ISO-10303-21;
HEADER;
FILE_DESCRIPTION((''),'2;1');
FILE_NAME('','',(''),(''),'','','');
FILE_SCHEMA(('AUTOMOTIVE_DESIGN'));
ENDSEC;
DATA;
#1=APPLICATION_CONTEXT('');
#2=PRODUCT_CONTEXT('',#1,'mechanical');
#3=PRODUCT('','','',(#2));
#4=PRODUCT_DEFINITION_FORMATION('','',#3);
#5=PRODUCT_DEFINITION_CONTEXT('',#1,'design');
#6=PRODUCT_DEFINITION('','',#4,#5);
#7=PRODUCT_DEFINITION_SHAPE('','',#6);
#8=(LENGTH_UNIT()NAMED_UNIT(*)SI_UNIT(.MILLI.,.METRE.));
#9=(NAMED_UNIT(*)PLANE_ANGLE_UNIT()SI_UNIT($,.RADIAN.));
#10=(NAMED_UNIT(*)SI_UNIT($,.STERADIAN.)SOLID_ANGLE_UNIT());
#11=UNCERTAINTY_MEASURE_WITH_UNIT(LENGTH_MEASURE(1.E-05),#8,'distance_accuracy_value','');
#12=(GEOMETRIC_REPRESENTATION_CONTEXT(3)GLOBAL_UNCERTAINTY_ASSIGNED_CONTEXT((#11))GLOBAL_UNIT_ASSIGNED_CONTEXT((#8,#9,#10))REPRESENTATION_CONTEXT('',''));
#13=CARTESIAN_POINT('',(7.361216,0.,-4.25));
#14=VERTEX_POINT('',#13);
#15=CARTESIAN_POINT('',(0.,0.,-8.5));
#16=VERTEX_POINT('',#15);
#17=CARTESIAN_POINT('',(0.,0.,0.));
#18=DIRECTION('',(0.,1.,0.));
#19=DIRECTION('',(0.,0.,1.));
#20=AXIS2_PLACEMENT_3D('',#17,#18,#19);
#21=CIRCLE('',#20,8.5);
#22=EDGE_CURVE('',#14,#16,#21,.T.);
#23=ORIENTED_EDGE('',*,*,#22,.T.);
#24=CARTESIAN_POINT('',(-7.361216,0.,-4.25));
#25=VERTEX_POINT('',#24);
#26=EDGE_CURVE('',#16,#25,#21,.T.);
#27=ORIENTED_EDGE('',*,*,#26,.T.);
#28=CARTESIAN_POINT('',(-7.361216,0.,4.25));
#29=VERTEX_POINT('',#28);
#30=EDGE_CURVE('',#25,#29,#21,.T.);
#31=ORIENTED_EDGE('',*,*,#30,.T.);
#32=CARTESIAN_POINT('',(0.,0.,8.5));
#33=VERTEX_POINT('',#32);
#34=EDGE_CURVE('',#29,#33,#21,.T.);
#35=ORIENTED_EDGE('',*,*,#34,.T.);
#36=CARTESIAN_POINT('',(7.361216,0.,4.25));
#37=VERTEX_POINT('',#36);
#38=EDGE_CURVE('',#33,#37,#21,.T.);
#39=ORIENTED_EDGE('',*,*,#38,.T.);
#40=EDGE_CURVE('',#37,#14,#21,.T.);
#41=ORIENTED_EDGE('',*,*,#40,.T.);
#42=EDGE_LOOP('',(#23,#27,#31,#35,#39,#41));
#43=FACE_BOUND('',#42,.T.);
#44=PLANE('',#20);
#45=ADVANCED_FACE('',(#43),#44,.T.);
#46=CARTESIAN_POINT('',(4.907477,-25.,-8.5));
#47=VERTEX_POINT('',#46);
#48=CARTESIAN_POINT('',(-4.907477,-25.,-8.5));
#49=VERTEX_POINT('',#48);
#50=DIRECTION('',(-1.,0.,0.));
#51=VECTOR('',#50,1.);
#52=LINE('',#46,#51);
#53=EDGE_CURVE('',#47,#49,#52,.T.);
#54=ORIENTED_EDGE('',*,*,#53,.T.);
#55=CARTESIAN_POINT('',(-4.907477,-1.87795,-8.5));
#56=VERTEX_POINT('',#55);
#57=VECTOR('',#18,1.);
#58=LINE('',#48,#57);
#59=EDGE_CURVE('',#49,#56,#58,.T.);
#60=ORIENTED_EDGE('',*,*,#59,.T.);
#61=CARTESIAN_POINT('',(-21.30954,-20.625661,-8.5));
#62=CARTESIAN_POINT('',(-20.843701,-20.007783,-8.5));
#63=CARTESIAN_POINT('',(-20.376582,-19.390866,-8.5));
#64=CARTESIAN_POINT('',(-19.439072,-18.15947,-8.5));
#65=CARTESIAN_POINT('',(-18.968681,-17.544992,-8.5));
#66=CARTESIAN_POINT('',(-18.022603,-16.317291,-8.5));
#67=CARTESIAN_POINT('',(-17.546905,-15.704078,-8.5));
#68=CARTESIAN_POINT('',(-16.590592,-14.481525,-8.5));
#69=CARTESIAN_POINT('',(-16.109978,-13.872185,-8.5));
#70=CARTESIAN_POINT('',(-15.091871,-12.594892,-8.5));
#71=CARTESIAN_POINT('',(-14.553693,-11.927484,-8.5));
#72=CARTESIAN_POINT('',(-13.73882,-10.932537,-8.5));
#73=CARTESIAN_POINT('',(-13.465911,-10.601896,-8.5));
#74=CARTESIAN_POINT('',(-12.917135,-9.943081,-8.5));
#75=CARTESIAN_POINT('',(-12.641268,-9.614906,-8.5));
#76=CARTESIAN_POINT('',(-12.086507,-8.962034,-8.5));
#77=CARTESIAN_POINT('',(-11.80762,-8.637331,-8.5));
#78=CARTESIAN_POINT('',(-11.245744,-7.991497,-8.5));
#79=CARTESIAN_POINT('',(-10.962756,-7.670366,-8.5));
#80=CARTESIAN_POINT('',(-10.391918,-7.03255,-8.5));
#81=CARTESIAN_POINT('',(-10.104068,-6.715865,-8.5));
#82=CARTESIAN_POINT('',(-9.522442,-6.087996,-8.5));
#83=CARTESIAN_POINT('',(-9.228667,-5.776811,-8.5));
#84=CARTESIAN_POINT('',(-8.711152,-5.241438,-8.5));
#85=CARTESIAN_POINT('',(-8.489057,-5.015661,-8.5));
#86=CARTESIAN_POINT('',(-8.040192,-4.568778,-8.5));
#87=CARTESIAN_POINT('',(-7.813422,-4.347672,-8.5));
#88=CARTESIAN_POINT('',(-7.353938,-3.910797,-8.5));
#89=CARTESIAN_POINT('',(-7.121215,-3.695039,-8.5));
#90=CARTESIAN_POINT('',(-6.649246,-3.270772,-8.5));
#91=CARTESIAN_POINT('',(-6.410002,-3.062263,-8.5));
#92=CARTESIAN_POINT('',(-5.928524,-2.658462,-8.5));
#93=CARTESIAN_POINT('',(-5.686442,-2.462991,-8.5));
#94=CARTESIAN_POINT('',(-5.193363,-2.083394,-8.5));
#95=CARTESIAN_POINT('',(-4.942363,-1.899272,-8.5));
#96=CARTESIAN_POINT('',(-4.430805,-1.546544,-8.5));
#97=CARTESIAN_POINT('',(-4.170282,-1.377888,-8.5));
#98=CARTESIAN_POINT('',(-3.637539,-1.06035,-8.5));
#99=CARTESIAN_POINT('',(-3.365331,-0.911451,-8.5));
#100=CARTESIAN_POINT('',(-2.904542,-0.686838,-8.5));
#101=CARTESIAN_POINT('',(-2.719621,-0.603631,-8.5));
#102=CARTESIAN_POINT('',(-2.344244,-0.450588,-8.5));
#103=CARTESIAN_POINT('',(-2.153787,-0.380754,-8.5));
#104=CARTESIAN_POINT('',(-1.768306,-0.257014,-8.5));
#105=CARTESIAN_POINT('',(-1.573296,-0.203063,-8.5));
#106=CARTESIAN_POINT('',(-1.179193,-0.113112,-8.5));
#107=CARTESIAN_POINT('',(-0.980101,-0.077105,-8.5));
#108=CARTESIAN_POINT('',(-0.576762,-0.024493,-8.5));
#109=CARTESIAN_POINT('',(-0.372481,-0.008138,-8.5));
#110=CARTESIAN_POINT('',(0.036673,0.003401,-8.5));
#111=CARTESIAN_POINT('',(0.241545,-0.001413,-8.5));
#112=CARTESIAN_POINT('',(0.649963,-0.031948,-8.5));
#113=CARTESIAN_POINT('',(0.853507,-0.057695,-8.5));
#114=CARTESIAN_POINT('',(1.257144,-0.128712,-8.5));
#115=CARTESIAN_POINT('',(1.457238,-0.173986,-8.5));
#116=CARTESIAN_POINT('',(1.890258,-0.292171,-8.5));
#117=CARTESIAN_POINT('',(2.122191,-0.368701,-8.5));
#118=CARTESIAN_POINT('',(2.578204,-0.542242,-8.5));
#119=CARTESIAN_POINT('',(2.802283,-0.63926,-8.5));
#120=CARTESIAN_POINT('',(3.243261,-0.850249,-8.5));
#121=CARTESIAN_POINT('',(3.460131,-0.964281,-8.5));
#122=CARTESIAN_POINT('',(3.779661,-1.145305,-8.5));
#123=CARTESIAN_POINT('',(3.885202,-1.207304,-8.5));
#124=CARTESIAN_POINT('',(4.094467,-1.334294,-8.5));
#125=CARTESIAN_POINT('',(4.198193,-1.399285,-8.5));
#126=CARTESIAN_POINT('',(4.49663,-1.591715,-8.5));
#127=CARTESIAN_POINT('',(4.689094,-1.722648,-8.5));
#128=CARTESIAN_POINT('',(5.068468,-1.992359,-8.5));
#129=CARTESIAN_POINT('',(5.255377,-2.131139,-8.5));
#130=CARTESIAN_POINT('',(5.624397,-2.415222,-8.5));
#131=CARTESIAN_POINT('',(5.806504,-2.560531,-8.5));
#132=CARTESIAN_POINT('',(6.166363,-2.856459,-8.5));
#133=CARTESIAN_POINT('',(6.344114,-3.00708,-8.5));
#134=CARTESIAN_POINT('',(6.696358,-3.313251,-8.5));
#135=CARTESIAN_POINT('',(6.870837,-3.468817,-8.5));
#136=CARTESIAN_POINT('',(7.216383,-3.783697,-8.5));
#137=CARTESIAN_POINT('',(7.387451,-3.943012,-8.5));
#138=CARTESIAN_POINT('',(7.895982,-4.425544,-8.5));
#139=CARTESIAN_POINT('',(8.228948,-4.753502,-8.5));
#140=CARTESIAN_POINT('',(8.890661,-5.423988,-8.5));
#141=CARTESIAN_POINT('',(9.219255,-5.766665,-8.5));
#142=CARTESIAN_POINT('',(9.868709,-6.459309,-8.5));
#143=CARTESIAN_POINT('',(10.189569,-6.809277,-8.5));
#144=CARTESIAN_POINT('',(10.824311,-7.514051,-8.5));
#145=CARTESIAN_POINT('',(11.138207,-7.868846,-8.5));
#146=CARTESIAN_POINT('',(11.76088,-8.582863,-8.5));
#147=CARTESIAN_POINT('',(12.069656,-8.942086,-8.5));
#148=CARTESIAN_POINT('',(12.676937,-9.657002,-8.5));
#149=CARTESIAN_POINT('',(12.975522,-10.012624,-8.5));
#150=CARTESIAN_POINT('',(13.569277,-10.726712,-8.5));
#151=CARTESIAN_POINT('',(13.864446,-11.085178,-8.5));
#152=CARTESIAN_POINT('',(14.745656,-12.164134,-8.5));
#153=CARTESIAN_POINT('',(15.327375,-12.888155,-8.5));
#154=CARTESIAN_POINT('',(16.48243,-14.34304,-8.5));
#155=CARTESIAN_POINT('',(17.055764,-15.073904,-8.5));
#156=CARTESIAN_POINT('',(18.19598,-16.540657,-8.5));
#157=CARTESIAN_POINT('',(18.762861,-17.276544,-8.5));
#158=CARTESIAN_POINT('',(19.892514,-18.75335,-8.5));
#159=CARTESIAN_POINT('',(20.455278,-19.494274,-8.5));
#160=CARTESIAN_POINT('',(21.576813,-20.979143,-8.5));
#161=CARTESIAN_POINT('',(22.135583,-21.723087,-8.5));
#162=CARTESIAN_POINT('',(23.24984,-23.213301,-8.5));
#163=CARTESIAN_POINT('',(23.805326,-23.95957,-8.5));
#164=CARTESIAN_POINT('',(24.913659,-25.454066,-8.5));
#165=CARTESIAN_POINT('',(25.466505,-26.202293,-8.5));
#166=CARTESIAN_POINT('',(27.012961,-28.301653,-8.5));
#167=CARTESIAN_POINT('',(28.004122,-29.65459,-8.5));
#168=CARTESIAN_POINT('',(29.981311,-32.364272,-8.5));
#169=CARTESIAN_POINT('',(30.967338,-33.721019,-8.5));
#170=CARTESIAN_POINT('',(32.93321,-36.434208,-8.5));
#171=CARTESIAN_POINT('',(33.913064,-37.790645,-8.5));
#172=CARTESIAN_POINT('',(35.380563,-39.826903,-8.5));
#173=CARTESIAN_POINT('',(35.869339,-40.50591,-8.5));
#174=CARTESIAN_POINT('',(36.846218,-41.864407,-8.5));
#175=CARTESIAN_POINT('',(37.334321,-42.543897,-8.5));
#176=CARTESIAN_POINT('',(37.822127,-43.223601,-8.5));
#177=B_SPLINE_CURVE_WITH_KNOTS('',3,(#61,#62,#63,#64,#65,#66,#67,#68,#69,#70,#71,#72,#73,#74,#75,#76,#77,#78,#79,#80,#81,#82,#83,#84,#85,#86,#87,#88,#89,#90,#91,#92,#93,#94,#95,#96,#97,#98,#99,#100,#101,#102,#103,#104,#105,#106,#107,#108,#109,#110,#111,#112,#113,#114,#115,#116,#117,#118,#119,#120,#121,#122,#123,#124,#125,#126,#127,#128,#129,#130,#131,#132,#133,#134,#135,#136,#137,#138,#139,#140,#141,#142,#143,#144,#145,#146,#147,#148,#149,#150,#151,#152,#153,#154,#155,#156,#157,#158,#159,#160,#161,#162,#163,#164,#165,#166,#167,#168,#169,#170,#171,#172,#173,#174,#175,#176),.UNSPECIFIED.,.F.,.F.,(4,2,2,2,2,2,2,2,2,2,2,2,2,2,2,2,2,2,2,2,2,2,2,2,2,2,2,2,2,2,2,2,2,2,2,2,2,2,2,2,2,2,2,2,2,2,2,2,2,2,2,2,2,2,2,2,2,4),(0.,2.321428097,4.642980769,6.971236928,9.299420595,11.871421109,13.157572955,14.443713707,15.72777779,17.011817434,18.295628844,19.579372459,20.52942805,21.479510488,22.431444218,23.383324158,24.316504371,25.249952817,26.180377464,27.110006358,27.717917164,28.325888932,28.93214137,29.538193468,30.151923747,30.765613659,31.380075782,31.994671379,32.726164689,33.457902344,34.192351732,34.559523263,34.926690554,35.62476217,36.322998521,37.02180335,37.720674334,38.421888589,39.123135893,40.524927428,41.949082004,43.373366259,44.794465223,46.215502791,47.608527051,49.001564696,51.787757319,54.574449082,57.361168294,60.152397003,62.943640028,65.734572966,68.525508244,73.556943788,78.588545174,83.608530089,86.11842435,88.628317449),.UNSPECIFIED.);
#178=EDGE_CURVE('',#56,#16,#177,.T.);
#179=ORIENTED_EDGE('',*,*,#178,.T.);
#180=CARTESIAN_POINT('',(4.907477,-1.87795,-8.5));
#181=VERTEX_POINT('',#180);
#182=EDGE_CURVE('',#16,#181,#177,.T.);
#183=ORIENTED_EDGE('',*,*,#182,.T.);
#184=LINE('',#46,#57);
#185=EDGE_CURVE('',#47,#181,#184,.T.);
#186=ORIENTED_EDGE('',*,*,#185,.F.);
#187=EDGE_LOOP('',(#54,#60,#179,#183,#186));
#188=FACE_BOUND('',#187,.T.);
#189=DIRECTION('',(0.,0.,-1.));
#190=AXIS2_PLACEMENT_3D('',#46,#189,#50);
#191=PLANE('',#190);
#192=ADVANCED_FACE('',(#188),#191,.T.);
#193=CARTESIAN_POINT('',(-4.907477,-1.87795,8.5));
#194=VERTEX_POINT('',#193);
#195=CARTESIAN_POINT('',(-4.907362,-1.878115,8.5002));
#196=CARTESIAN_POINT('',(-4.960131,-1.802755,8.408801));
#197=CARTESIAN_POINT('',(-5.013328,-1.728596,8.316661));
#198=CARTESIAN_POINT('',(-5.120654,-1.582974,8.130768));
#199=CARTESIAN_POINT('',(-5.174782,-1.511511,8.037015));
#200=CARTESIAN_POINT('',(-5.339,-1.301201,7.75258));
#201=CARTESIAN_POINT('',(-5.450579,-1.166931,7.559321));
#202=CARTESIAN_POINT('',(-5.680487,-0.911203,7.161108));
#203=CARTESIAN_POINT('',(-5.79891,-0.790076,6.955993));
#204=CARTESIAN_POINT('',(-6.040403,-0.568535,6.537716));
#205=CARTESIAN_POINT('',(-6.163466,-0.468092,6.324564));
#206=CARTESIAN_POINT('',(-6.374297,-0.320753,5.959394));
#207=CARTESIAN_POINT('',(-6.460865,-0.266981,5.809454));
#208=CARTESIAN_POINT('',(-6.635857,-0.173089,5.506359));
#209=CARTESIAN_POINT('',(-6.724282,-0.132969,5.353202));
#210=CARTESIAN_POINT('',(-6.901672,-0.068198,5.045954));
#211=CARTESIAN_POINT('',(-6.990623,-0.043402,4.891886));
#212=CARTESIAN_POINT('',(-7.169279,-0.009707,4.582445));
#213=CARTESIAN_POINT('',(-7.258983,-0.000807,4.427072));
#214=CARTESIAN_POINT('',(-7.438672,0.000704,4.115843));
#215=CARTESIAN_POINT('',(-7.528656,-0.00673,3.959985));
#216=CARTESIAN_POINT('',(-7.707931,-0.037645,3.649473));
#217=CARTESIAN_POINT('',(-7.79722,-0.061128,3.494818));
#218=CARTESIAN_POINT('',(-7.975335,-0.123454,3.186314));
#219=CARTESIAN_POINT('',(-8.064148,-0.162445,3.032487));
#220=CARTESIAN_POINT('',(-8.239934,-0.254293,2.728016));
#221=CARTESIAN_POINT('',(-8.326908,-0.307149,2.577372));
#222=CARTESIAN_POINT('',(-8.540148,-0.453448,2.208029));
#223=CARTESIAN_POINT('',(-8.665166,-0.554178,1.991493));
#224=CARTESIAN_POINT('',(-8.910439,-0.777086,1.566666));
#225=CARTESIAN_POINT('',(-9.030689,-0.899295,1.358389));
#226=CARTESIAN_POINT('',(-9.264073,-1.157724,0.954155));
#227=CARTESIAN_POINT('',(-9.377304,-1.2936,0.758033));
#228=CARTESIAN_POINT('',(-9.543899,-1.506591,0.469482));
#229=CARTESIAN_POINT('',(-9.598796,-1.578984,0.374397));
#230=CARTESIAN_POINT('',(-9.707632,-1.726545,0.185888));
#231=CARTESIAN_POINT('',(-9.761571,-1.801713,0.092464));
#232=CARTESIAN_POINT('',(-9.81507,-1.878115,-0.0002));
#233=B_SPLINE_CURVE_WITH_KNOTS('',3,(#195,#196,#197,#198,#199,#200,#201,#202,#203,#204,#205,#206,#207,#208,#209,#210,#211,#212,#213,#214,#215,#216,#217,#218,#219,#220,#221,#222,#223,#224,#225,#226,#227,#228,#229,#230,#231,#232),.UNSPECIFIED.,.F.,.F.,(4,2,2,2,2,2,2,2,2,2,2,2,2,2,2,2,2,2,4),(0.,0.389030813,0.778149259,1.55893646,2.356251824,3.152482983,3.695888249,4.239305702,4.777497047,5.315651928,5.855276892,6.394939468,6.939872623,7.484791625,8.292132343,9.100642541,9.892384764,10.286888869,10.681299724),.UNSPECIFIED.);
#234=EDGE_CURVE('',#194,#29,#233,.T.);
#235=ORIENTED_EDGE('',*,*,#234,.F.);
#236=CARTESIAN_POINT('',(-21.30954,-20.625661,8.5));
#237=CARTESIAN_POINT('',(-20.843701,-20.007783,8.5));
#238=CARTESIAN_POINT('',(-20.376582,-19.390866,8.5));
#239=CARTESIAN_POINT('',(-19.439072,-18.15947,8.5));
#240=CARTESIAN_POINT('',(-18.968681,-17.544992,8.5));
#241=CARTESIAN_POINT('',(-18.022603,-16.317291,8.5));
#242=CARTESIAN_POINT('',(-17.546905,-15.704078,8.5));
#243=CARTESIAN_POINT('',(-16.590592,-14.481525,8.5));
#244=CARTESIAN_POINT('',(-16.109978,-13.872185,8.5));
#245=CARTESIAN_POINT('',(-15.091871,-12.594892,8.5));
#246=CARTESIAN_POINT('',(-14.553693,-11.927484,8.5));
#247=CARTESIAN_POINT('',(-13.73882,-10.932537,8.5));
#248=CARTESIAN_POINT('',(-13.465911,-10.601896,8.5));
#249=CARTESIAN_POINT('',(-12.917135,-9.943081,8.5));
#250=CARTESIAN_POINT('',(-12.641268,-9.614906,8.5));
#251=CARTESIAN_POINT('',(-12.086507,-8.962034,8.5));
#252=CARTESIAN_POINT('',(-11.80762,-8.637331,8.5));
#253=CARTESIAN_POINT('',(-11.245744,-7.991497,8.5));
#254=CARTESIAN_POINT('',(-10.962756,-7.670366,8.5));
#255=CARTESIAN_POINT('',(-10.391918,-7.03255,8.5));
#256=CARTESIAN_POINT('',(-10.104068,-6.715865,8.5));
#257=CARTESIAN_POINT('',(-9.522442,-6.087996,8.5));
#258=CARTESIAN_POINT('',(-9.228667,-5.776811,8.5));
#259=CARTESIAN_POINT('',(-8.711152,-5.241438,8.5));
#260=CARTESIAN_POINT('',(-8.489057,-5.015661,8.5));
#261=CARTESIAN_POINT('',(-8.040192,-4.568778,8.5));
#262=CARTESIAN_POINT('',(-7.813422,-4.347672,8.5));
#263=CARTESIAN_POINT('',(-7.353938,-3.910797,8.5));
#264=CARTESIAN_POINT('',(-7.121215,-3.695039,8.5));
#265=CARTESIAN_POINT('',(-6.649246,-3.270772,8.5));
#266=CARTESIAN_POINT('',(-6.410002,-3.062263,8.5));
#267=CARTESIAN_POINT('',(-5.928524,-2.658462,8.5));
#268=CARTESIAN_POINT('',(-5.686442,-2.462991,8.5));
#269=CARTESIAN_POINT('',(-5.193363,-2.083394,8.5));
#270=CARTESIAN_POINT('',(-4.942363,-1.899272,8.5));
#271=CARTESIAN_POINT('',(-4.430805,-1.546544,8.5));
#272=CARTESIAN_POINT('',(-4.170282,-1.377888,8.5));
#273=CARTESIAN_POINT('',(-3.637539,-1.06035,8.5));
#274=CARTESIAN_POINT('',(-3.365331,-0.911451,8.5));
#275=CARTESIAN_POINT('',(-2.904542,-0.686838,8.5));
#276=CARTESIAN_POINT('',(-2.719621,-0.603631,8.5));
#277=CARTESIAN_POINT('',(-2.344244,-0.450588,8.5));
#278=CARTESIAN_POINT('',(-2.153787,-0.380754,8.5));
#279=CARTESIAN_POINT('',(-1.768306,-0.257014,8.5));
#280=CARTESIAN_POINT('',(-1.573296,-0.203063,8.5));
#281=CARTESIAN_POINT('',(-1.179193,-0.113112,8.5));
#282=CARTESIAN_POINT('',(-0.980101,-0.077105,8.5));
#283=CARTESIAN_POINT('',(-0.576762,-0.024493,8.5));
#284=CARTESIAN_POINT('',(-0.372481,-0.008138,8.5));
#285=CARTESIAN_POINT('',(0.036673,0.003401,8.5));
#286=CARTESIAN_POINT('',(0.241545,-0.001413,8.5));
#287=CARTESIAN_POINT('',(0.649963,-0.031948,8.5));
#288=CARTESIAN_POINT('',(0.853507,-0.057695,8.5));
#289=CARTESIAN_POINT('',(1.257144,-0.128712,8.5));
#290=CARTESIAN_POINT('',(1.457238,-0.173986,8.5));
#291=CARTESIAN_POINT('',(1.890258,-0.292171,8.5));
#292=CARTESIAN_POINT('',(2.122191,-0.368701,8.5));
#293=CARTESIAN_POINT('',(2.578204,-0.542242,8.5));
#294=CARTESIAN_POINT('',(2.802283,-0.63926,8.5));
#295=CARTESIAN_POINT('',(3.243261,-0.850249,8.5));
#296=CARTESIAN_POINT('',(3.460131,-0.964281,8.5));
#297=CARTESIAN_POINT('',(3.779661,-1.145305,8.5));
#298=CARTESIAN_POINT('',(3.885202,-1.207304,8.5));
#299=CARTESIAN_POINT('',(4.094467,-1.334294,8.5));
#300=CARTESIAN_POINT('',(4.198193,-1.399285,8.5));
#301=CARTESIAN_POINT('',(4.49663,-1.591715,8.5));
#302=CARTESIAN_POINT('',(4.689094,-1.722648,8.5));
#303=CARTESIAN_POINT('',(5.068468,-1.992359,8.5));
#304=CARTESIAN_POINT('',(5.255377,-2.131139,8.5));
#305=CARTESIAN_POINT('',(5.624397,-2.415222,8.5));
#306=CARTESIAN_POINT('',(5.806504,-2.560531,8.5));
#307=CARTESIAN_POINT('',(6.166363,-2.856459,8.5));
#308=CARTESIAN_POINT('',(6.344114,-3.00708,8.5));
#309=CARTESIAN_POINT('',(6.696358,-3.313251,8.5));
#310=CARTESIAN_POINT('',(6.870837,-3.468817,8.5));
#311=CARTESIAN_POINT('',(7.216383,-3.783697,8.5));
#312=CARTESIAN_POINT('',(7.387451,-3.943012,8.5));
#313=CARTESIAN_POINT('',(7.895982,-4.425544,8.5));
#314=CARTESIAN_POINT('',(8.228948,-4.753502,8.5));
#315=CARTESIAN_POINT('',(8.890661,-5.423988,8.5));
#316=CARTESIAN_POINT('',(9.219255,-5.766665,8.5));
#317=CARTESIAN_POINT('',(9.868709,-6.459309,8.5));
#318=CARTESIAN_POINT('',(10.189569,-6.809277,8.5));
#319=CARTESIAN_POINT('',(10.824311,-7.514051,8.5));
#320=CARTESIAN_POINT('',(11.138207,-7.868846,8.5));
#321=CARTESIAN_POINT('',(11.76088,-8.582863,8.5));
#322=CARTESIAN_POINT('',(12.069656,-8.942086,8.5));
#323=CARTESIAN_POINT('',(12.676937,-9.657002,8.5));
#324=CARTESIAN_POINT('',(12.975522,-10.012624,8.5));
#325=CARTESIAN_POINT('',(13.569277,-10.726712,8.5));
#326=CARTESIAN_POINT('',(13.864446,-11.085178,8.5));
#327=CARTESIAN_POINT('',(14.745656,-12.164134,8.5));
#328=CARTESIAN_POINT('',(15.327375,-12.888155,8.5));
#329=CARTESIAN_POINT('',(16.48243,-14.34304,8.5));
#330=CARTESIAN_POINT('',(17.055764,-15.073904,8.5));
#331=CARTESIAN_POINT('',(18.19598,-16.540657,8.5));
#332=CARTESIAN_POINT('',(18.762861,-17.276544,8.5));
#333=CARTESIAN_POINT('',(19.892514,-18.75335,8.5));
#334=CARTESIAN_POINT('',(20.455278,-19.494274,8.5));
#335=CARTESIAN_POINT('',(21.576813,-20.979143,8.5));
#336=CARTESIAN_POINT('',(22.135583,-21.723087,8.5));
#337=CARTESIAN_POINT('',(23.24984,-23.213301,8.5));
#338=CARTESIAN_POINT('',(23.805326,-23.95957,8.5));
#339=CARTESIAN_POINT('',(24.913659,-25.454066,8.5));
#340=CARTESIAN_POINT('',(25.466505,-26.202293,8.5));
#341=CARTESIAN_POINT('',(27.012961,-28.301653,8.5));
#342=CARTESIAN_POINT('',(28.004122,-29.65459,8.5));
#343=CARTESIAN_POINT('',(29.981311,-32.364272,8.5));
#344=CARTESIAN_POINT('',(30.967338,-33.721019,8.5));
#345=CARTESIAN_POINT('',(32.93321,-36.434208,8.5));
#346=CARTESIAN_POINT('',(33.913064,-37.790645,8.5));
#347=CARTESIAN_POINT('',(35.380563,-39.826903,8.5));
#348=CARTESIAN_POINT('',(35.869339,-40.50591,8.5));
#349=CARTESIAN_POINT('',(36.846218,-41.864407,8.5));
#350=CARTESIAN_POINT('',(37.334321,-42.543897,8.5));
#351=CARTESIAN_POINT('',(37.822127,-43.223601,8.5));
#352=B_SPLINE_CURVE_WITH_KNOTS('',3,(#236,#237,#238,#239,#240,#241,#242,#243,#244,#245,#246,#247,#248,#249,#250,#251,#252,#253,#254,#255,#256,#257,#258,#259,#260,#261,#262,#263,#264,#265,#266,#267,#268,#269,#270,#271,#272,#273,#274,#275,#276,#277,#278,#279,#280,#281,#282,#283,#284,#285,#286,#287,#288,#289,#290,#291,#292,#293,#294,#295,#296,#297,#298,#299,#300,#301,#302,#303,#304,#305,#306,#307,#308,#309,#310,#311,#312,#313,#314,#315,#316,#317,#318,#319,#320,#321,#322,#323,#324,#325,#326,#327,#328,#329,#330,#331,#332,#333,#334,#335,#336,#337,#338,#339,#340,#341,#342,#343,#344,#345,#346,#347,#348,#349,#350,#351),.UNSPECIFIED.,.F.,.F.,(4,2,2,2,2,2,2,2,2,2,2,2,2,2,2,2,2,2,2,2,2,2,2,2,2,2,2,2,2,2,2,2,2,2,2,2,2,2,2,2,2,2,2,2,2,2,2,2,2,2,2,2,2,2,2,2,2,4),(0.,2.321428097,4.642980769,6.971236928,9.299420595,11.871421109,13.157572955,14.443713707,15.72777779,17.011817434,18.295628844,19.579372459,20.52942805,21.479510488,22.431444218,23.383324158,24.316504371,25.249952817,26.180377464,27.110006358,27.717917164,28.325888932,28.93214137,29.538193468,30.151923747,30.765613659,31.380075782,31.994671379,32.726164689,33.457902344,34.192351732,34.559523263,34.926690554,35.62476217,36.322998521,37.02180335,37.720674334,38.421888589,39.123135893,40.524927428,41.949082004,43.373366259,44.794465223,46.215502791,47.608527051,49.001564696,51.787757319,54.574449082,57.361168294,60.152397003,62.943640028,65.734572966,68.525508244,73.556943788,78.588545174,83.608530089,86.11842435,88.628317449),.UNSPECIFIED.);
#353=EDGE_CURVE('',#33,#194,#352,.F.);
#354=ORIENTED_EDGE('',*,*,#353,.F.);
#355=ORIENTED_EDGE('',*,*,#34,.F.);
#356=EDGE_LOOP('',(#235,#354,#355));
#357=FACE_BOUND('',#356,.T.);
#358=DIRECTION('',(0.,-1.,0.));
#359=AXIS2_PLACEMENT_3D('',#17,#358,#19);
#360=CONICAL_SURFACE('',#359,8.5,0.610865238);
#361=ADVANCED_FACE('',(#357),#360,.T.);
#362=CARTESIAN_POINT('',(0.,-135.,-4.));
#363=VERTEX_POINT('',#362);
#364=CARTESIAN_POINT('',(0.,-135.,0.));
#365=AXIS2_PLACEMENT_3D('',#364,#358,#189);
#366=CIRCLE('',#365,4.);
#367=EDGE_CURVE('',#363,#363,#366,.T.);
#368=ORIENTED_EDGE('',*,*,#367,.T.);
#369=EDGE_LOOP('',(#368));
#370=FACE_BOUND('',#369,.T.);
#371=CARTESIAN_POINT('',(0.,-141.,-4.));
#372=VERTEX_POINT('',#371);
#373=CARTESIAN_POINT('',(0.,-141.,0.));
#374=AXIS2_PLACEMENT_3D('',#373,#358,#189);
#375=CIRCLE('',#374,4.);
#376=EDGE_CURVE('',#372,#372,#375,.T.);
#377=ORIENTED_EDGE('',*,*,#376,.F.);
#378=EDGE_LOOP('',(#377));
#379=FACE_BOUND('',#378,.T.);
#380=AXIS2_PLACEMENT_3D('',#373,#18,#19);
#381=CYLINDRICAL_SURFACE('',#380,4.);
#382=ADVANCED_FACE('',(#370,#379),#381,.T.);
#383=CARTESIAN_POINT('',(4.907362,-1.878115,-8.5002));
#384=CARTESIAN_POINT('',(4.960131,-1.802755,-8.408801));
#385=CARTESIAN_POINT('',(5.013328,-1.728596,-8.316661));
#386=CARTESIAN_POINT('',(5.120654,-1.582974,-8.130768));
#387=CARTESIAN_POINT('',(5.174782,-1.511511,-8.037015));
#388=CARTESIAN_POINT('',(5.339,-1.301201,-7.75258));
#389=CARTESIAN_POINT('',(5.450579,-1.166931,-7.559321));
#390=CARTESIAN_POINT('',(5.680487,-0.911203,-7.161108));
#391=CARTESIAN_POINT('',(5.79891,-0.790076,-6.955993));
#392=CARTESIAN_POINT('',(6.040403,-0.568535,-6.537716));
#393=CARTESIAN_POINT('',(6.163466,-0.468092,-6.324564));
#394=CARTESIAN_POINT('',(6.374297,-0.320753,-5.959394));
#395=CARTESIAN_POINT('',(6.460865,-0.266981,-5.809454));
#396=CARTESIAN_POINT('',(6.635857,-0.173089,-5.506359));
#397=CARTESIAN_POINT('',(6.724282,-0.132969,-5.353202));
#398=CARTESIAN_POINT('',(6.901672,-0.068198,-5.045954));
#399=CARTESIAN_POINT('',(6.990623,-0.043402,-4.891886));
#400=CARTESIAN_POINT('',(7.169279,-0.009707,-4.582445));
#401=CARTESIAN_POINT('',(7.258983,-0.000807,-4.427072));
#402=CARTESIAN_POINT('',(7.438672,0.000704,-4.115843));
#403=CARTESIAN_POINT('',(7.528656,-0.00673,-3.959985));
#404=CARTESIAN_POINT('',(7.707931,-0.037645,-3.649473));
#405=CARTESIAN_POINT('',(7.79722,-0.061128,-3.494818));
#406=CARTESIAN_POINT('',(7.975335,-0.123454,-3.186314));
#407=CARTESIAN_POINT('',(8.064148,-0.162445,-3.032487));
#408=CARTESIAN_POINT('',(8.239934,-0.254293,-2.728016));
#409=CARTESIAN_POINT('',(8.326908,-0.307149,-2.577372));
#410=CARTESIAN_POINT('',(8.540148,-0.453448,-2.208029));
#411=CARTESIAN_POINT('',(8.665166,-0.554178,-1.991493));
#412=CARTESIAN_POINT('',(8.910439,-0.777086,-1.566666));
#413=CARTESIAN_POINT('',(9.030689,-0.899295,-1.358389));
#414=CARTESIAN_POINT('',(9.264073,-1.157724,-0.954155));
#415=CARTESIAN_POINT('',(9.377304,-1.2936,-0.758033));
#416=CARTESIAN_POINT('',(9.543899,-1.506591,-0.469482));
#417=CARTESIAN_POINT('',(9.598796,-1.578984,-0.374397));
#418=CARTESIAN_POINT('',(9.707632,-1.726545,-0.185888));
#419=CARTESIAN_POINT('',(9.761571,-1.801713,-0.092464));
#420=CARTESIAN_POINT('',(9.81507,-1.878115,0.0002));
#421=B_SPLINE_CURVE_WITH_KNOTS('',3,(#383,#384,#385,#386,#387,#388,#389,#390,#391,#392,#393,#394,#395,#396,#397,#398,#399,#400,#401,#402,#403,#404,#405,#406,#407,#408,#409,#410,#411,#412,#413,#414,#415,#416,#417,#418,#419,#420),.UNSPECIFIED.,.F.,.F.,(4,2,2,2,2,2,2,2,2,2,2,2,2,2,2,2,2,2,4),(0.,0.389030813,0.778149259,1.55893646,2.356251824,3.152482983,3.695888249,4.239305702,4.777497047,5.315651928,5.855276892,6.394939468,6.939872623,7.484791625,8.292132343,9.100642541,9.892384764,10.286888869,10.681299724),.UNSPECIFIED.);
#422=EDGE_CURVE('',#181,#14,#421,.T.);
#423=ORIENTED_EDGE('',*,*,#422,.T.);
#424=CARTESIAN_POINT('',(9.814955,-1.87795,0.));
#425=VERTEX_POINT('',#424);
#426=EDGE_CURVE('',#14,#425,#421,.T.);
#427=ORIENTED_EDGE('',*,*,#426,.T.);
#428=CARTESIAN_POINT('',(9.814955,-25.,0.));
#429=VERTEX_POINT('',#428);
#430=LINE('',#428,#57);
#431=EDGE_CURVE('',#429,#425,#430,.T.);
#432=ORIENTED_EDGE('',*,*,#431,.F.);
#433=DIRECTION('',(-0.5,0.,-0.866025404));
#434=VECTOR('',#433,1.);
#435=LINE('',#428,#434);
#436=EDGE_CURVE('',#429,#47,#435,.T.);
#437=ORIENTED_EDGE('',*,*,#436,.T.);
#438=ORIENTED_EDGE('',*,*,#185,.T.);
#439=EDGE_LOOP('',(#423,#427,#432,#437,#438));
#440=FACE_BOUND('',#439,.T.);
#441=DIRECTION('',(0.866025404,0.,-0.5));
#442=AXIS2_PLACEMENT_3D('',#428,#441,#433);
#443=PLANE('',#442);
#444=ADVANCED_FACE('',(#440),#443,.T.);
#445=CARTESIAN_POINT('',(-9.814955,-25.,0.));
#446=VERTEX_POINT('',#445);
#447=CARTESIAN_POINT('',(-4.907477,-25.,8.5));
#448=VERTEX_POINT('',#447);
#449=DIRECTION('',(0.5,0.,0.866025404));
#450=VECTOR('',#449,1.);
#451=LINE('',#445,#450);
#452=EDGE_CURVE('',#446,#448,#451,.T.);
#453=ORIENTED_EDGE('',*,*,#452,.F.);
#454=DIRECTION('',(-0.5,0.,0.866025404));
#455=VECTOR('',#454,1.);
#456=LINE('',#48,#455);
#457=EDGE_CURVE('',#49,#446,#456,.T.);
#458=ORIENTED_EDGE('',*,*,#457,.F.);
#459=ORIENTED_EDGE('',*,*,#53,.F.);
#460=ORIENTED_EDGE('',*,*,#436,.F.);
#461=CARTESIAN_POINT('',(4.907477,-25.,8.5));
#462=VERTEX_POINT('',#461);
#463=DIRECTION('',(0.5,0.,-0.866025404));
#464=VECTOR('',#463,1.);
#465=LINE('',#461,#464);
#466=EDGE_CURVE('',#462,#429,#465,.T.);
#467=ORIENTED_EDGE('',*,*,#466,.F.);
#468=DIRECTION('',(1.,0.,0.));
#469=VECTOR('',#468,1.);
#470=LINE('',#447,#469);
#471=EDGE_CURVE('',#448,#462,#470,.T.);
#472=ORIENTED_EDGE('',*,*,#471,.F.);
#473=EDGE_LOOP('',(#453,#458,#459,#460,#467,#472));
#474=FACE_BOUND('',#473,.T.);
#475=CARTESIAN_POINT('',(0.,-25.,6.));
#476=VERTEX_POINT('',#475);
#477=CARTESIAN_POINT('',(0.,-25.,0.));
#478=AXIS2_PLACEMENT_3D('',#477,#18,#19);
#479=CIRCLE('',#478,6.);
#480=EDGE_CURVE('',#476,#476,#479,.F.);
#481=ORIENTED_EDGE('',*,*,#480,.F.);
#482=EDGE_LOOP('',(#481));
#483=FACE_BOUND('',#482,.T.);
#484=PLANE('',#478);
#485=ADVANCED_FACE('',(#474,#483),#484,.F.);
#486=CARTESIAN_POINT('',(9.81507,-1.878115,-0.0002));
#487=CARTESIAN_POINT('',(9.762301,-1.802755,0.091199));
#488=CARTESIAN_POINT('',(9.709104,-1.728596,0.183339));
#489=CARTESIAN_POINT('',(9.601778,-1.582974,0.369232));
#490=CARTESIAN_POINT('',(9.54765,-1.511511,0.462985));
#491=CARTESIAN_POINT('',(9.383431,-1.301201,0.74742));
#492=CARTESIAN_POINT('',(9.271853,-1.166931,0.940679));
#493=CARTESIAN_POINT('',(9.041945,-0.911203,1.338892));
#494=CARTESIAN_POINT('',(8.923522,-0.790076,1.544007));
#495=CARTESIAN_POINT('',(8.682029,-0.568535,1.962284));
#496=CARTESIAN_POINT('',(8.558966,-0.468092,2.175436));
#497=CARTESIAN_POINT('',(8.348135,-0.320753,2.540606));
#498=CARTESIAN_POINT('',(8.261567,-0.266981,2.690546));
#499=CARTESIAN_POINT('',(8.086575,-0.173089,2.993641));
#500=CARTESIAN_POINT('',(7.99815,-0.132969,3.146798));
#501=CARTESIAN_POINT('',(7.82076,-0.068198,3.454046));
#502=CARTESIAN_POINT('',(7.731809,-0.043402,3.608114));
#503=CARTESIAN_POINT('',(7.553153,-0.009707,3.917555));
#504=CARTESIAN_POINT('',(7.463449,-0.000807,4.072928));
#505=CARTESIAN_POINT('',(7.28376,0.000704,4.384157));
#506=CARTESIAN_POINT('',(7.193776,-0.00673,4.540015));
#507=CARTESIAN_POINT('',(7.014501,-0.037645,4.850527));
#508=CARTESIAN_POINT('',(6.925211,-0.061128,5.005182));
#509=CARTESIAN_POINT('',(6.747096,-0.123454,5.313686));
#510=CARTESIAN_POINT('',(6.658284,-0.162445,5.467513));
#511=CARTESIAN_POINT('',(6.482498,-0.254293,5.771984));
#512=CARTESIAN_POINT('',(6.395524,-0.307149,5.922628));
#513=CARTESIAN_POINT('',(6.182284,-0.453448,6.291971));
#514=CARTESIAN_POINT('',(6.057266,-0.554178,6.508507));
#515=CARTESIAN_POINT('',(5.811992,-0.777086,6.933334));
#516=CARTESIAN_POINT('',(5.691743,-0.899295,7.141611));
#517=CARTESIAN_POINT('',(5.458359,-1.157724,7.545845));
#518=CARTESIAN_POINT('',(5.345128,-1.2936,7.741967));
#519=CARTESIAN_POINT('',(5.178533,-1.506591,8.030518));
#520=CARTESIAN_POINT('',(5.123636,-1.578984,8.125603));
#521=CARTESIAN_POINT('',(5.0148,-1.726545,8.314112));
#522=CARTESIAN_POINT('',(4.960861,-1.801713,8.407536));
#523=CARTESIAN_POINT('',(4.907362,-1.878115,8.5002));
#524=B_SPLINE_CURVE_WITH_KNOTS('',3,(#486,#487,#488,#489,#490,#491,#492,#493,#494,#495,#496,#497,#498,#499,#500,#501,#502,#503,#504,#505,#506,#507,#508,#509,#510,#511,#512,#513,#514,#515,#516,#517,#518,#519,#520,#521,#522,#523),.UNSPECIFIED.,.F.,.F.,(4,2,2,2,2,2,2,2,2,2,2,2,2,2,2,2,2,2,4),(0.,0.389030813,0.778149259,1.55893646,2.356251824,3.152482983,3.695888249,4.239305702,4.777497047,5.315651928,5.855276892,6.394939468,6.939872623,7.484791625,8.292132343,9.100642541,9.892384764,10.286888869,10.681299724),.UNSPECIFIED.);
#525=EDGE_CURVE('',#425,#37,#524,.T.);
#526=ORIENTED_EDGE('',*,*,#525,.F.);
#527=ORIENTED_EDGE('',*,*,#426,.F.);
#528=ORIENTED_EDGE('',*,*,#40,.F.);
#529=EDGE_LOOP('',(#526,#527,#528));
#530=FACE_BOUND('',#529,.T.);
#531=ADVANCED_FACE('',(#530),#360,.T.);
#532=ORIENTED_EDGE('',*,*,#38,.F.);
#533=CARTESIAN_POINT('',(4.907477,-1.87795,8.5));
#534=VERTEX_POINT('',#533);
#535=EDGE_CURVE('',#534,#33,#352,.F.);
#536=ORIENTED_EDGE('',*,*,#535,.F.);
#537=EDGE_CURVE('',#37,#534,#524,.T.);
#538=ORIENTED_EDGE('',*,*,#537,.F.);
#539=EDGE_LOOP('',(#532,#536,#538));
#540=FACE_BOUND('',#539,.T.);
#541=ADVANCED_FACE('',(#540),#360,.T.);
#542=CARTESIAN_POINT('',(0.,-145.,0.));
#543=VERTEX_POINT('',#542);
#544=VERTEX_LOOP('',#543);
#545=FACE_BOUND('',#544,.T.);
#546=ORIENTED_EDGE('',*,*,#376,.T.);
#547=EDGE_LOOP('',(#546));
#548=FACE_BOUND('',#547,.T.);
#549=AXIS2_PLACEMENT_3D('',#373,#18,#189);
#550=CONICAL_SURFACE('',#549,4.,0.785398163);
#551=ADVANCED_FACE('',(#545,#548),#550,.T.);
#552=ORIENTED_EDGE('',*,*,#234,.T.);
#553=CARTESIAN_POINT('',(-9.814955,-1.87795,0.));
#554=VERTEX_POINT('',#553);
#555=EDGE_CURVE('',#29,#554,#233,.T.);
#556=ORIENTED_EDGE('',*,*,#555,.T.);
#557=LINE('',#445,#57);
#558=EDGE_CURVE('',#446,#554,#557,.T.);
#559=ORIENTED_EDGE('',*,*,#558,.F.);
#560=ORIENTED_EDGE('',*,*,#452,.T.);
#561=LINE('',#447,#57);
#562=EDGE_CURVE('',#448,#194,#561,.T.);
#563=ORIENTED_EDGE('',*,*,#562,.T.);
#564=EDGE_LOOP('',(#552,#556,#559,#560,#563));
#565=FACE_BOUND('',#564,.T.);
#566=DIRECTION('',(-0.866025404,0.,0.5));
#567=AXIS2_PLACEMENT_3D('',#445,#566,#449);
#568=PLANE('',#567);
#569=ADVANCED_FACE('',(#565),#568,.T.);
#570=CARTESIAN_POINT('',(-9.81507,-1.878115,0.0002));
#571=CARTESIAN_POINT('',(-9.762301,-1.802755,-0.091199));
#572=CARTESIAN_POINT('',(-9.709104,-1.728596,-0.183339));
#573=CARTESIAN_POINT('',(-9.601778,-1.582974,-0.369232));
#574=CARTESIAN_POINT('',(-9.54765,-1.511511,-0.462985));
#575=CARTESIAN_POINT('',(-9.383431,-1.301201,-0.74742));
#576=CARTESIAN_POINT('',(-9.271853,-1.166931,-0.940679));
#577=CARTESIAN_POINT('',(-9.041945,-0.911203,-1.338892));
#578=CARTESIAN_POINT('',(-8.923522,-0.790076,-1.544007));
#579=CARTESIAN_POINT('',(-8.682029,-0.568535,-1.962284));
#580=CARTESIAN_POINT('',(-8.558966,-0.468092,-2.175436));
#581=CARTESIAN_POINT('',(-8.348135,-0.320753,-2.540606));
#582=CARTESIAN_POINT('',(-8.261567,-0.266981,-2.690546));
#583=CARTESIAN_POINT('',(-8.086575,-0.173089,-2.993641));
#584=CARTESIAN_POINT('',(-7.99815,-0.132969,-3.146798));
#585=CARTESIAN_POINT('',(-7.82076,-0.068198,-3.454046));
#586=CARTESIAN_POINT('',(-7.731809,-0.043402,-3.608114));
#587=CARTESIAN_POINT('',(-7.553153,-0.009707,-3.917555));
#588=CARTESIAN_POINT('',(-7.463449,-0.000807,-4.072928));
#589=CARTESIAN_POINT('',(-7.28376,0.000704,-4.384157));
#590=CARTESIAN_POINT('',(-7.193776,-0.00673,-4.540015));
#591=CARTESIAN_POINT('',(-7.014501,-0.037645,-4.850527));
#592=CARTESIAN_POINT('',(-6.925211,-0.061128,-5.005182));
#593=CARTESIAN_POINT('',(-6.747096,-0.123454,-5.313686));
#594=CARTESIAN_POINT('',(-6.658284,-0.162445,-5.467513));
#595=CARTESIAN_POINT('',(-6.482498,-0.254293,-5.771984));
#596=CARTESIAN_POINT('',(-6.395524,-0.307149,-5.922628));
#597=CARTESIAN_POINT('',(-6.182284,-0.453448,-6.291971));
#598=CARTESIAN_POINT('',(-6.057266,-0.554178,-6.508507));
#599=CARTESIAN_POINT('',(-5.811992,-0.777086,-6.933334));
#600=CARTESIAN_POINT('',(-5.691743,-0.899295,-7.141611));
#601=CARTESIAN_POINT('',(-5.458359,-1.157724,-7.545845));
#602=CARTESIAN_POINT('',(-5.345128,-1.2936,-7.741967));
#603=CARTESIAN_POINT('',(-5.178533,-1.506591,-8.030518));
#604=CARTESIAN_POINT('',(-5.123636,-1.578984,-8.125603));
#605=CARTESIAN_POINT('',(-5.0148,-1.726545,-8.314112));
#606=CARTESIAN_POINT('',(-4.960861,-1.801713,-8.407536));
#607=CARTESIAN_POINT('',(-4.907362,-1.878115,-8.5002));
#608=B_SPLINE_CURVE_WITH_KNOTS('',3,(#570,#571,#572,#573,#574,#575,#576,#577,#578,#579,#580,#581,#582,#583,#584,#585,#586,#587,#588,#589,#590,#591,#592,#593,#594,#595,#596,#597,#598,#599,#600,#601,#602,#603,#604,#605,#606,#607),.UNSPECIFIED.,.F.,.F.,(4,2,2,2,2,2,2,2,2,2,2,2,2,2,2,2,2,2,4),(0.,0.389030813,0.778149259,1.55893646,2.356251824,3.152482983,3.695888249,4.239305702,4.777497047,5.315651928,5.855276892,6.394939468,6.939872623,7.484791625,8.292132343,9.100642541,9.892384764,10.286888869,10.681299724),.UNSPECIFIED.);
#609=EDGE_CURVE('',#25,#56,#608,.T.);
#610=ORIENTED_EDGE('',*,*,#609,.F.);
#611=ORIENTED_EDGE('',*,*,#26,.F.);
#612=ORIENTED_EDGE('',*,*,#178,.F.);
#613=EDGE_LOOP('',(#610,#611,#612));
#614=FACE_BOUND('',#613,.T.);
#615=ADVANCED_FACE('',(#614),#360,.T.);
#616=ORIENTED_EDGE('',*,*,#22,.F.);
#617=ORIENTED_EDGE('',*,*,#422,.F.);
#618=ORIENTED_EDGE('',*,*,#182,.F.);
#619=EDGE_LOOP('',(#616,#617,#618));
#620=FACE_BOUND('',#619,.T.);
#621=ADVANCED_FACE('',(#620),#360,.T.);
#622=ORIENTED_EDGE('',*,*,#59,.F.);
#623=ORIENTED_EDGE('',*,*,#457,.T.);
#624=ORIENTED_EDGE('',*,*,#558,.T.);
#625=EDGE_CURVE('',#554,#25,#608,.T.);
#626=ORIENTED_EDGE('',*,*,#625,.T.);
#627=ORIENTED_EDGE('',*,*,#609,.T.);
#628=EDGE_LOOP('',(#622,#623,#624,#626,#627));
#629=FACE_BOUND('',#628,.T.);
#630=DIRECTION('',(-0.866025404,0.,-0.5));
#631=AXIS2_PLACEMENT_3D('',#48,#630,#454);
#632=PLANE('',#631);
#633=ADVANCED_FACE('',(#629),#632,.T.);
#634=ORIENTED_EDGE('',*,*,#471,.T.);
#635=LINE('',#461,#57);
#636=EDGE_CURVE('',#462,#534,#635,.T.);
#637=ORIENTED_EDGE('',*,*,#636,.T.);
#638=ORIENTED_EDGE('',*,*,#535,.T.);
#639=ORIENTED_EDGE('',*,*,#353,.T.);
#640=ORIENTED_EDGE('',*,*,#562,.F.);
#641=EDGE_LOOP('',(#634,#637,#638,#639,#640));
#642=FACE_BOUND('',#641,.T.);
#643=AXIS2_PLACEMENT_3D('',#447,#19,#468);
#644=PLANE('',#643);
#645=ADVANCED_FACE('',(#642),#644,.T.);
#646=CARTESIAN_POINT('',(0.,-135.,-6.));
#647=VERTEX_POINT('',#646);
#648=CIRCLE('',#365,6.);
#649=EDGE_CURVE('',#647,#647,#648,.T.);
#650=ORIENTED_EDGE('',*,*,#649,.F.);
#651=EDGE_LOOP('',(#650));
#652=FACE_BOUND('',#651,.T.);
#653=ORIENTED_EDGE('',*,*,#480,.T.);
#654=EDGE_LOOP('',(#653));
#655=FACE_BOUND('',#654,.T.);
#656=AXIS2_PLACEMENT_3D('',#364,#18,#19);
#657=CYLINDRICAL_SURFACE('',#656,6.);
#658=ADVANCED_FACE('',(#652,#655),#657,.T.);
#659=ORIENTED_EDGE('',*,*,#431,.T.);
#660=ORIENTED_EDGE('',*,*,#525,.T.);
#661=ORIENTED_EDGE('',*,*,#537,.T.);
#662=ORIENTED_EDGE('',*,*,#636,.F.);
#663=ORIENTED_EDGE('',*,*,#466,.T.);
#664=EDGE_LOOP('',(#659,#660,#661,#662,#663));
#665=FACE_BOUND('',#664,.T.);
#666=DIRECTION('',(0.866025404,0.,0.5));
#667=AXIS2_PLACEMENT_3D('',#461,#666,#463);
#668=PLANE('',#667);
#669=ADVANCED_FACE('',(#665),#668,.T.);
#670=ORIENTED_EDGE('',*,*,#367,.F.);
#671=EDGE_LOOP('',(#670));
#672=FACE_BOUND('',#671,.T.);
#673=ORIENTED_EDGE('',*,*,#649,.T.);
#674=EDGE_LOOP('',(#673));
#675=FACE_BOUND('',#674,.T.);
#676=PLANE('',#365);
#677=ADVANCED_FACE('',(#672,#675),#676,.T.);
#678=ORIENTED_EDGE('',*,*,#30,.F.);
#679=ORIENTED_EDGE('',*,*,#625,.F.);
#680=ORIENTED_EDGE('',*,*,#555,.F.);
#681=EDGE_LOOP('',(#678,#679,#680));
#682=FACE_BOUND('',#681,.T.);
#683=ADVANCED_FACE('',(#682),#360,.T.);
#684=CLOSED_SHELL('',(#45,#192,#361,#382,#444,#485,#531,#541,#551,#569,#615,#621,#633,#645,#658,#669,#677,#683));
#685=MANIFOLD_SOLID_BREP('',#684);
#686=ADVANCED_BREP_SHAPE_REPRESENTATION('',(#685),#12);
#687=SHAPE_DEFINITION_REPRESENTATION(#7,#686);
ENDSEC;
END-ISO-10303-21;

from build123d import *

# Parameters (mm, degrees)
BOSS_EXTRUDE1_DEPTH = 25
SKETCH2_OUTSIDE_W   = 63.85
SKETCH2_OUTSIDE_H   = 61.22
SKETCH2_OUTSIDE_R   = 8.5
CUT_EXTRUDE1_DEPTH  = 25
CUT_EXTRUDE1_DRAFT  = -35
SKETCH3_R           = 6
BOSS_EXTRUDE2_DEPTH = 110
SKETCH4_R           = 4
BOSS_EXTRUDE3_DEPTH = 6


with BuildPart() as part:
    # Sketch1 → Boss-Extrude1 (new body)
    with BuildSketch(Plane(origin=(0, 0, 0), x_dir=(1, 0, 0), z_dir=(0, 1, 0))):
        Polygon((9.814954576, 0), (4.907477288, 8.5), (-4.907477288, 8.5), (-9.814954576, 0), (-4.907477288, -8.5), (4.907477288, -8.5), align=None)
    extrude(amount=-BOSS_EXTRUDE1_DEPTH)


with BuildPart() as cut_extrude1_tool:
    # Sketch2 outside → Cut-Extrude1 (with draft: the straight prism first)
    with BuildSketch(Plane(origin=(0, 0, 0), x_dir=(1, 0, 0), z_dir=(0, 1, 0))):
        Rectangle(SKETCH2_OUTSIDE_W, SKETCH2_OUTSIDE_H)
        Circle(SKETCH2_OUTSIDE_R, mode=Mode.SUBTRACT)
    extrude(amount=-CUT_EXTRUDE1_DEPTH)
    # Cut-Extrude1: the draft: its side faces are tilted about the plane it starts from
    cut_extrude1_sides = [cut_extrude1_tool.faces().sort_by_distance(p)[0] for p in [
        (0, -12.5, 30.61),
        (31.925, -12.5, 0),
        (0, -12.5, -30.61),
        (-31.925, -12.5, 0),
        (-8.5, -12.5, 0),
    ]]
    draft(cut_extrude1_sides, Plane(origin=(0, 0, 0), x_dir=(1, 0, 0), z_dir=(0, 1, 0)), CUT_EXTRUDE1_DRAFT)


with BuildPart() as part_1:
    add(part.part)

    # Cut-Extrude1: cut by cut_extrude1_tool
    add(cut_extrude1_tool.part, mode=Mode.SUBTRACT)

    # Sketch3 → Boss-Extrude2 (add)
    with BuildSketch(Plane.XZ.offset(25)):
        with Locations(Location((0, 0, 0), (0, 0, 90))):
            Circle(SKETCH3_R)
    extrude(amount=BOSS_EXTRUDE2_DEPTH)

    # Sketch4 → Boss-Extrude3 (add)
    with BuildSketch(Plane.XZ.offset(135)):
        with Locations(Location((0, 0, 0), (0, 0, 270))):
            Circle(SKETCH4_R)
    extrude(amount=BOSS_EXTRUDE3_DEPTH)

    # Boss-Extrude4 cone 1 section (through the dimple's axis) → Boss-Extrude4 (revolve)
    with BuildSketch(Plane(origin=(0, -141, 0), x_dir=(0, 0, 1), z_dir=(1, 0, 0))):
        Polygon((0, 0), (4, 0), (0, 4), align=None)
    revolve(axis=Axis((0, -141, 0), (0, -1, 0)))


solid = part_1.part
